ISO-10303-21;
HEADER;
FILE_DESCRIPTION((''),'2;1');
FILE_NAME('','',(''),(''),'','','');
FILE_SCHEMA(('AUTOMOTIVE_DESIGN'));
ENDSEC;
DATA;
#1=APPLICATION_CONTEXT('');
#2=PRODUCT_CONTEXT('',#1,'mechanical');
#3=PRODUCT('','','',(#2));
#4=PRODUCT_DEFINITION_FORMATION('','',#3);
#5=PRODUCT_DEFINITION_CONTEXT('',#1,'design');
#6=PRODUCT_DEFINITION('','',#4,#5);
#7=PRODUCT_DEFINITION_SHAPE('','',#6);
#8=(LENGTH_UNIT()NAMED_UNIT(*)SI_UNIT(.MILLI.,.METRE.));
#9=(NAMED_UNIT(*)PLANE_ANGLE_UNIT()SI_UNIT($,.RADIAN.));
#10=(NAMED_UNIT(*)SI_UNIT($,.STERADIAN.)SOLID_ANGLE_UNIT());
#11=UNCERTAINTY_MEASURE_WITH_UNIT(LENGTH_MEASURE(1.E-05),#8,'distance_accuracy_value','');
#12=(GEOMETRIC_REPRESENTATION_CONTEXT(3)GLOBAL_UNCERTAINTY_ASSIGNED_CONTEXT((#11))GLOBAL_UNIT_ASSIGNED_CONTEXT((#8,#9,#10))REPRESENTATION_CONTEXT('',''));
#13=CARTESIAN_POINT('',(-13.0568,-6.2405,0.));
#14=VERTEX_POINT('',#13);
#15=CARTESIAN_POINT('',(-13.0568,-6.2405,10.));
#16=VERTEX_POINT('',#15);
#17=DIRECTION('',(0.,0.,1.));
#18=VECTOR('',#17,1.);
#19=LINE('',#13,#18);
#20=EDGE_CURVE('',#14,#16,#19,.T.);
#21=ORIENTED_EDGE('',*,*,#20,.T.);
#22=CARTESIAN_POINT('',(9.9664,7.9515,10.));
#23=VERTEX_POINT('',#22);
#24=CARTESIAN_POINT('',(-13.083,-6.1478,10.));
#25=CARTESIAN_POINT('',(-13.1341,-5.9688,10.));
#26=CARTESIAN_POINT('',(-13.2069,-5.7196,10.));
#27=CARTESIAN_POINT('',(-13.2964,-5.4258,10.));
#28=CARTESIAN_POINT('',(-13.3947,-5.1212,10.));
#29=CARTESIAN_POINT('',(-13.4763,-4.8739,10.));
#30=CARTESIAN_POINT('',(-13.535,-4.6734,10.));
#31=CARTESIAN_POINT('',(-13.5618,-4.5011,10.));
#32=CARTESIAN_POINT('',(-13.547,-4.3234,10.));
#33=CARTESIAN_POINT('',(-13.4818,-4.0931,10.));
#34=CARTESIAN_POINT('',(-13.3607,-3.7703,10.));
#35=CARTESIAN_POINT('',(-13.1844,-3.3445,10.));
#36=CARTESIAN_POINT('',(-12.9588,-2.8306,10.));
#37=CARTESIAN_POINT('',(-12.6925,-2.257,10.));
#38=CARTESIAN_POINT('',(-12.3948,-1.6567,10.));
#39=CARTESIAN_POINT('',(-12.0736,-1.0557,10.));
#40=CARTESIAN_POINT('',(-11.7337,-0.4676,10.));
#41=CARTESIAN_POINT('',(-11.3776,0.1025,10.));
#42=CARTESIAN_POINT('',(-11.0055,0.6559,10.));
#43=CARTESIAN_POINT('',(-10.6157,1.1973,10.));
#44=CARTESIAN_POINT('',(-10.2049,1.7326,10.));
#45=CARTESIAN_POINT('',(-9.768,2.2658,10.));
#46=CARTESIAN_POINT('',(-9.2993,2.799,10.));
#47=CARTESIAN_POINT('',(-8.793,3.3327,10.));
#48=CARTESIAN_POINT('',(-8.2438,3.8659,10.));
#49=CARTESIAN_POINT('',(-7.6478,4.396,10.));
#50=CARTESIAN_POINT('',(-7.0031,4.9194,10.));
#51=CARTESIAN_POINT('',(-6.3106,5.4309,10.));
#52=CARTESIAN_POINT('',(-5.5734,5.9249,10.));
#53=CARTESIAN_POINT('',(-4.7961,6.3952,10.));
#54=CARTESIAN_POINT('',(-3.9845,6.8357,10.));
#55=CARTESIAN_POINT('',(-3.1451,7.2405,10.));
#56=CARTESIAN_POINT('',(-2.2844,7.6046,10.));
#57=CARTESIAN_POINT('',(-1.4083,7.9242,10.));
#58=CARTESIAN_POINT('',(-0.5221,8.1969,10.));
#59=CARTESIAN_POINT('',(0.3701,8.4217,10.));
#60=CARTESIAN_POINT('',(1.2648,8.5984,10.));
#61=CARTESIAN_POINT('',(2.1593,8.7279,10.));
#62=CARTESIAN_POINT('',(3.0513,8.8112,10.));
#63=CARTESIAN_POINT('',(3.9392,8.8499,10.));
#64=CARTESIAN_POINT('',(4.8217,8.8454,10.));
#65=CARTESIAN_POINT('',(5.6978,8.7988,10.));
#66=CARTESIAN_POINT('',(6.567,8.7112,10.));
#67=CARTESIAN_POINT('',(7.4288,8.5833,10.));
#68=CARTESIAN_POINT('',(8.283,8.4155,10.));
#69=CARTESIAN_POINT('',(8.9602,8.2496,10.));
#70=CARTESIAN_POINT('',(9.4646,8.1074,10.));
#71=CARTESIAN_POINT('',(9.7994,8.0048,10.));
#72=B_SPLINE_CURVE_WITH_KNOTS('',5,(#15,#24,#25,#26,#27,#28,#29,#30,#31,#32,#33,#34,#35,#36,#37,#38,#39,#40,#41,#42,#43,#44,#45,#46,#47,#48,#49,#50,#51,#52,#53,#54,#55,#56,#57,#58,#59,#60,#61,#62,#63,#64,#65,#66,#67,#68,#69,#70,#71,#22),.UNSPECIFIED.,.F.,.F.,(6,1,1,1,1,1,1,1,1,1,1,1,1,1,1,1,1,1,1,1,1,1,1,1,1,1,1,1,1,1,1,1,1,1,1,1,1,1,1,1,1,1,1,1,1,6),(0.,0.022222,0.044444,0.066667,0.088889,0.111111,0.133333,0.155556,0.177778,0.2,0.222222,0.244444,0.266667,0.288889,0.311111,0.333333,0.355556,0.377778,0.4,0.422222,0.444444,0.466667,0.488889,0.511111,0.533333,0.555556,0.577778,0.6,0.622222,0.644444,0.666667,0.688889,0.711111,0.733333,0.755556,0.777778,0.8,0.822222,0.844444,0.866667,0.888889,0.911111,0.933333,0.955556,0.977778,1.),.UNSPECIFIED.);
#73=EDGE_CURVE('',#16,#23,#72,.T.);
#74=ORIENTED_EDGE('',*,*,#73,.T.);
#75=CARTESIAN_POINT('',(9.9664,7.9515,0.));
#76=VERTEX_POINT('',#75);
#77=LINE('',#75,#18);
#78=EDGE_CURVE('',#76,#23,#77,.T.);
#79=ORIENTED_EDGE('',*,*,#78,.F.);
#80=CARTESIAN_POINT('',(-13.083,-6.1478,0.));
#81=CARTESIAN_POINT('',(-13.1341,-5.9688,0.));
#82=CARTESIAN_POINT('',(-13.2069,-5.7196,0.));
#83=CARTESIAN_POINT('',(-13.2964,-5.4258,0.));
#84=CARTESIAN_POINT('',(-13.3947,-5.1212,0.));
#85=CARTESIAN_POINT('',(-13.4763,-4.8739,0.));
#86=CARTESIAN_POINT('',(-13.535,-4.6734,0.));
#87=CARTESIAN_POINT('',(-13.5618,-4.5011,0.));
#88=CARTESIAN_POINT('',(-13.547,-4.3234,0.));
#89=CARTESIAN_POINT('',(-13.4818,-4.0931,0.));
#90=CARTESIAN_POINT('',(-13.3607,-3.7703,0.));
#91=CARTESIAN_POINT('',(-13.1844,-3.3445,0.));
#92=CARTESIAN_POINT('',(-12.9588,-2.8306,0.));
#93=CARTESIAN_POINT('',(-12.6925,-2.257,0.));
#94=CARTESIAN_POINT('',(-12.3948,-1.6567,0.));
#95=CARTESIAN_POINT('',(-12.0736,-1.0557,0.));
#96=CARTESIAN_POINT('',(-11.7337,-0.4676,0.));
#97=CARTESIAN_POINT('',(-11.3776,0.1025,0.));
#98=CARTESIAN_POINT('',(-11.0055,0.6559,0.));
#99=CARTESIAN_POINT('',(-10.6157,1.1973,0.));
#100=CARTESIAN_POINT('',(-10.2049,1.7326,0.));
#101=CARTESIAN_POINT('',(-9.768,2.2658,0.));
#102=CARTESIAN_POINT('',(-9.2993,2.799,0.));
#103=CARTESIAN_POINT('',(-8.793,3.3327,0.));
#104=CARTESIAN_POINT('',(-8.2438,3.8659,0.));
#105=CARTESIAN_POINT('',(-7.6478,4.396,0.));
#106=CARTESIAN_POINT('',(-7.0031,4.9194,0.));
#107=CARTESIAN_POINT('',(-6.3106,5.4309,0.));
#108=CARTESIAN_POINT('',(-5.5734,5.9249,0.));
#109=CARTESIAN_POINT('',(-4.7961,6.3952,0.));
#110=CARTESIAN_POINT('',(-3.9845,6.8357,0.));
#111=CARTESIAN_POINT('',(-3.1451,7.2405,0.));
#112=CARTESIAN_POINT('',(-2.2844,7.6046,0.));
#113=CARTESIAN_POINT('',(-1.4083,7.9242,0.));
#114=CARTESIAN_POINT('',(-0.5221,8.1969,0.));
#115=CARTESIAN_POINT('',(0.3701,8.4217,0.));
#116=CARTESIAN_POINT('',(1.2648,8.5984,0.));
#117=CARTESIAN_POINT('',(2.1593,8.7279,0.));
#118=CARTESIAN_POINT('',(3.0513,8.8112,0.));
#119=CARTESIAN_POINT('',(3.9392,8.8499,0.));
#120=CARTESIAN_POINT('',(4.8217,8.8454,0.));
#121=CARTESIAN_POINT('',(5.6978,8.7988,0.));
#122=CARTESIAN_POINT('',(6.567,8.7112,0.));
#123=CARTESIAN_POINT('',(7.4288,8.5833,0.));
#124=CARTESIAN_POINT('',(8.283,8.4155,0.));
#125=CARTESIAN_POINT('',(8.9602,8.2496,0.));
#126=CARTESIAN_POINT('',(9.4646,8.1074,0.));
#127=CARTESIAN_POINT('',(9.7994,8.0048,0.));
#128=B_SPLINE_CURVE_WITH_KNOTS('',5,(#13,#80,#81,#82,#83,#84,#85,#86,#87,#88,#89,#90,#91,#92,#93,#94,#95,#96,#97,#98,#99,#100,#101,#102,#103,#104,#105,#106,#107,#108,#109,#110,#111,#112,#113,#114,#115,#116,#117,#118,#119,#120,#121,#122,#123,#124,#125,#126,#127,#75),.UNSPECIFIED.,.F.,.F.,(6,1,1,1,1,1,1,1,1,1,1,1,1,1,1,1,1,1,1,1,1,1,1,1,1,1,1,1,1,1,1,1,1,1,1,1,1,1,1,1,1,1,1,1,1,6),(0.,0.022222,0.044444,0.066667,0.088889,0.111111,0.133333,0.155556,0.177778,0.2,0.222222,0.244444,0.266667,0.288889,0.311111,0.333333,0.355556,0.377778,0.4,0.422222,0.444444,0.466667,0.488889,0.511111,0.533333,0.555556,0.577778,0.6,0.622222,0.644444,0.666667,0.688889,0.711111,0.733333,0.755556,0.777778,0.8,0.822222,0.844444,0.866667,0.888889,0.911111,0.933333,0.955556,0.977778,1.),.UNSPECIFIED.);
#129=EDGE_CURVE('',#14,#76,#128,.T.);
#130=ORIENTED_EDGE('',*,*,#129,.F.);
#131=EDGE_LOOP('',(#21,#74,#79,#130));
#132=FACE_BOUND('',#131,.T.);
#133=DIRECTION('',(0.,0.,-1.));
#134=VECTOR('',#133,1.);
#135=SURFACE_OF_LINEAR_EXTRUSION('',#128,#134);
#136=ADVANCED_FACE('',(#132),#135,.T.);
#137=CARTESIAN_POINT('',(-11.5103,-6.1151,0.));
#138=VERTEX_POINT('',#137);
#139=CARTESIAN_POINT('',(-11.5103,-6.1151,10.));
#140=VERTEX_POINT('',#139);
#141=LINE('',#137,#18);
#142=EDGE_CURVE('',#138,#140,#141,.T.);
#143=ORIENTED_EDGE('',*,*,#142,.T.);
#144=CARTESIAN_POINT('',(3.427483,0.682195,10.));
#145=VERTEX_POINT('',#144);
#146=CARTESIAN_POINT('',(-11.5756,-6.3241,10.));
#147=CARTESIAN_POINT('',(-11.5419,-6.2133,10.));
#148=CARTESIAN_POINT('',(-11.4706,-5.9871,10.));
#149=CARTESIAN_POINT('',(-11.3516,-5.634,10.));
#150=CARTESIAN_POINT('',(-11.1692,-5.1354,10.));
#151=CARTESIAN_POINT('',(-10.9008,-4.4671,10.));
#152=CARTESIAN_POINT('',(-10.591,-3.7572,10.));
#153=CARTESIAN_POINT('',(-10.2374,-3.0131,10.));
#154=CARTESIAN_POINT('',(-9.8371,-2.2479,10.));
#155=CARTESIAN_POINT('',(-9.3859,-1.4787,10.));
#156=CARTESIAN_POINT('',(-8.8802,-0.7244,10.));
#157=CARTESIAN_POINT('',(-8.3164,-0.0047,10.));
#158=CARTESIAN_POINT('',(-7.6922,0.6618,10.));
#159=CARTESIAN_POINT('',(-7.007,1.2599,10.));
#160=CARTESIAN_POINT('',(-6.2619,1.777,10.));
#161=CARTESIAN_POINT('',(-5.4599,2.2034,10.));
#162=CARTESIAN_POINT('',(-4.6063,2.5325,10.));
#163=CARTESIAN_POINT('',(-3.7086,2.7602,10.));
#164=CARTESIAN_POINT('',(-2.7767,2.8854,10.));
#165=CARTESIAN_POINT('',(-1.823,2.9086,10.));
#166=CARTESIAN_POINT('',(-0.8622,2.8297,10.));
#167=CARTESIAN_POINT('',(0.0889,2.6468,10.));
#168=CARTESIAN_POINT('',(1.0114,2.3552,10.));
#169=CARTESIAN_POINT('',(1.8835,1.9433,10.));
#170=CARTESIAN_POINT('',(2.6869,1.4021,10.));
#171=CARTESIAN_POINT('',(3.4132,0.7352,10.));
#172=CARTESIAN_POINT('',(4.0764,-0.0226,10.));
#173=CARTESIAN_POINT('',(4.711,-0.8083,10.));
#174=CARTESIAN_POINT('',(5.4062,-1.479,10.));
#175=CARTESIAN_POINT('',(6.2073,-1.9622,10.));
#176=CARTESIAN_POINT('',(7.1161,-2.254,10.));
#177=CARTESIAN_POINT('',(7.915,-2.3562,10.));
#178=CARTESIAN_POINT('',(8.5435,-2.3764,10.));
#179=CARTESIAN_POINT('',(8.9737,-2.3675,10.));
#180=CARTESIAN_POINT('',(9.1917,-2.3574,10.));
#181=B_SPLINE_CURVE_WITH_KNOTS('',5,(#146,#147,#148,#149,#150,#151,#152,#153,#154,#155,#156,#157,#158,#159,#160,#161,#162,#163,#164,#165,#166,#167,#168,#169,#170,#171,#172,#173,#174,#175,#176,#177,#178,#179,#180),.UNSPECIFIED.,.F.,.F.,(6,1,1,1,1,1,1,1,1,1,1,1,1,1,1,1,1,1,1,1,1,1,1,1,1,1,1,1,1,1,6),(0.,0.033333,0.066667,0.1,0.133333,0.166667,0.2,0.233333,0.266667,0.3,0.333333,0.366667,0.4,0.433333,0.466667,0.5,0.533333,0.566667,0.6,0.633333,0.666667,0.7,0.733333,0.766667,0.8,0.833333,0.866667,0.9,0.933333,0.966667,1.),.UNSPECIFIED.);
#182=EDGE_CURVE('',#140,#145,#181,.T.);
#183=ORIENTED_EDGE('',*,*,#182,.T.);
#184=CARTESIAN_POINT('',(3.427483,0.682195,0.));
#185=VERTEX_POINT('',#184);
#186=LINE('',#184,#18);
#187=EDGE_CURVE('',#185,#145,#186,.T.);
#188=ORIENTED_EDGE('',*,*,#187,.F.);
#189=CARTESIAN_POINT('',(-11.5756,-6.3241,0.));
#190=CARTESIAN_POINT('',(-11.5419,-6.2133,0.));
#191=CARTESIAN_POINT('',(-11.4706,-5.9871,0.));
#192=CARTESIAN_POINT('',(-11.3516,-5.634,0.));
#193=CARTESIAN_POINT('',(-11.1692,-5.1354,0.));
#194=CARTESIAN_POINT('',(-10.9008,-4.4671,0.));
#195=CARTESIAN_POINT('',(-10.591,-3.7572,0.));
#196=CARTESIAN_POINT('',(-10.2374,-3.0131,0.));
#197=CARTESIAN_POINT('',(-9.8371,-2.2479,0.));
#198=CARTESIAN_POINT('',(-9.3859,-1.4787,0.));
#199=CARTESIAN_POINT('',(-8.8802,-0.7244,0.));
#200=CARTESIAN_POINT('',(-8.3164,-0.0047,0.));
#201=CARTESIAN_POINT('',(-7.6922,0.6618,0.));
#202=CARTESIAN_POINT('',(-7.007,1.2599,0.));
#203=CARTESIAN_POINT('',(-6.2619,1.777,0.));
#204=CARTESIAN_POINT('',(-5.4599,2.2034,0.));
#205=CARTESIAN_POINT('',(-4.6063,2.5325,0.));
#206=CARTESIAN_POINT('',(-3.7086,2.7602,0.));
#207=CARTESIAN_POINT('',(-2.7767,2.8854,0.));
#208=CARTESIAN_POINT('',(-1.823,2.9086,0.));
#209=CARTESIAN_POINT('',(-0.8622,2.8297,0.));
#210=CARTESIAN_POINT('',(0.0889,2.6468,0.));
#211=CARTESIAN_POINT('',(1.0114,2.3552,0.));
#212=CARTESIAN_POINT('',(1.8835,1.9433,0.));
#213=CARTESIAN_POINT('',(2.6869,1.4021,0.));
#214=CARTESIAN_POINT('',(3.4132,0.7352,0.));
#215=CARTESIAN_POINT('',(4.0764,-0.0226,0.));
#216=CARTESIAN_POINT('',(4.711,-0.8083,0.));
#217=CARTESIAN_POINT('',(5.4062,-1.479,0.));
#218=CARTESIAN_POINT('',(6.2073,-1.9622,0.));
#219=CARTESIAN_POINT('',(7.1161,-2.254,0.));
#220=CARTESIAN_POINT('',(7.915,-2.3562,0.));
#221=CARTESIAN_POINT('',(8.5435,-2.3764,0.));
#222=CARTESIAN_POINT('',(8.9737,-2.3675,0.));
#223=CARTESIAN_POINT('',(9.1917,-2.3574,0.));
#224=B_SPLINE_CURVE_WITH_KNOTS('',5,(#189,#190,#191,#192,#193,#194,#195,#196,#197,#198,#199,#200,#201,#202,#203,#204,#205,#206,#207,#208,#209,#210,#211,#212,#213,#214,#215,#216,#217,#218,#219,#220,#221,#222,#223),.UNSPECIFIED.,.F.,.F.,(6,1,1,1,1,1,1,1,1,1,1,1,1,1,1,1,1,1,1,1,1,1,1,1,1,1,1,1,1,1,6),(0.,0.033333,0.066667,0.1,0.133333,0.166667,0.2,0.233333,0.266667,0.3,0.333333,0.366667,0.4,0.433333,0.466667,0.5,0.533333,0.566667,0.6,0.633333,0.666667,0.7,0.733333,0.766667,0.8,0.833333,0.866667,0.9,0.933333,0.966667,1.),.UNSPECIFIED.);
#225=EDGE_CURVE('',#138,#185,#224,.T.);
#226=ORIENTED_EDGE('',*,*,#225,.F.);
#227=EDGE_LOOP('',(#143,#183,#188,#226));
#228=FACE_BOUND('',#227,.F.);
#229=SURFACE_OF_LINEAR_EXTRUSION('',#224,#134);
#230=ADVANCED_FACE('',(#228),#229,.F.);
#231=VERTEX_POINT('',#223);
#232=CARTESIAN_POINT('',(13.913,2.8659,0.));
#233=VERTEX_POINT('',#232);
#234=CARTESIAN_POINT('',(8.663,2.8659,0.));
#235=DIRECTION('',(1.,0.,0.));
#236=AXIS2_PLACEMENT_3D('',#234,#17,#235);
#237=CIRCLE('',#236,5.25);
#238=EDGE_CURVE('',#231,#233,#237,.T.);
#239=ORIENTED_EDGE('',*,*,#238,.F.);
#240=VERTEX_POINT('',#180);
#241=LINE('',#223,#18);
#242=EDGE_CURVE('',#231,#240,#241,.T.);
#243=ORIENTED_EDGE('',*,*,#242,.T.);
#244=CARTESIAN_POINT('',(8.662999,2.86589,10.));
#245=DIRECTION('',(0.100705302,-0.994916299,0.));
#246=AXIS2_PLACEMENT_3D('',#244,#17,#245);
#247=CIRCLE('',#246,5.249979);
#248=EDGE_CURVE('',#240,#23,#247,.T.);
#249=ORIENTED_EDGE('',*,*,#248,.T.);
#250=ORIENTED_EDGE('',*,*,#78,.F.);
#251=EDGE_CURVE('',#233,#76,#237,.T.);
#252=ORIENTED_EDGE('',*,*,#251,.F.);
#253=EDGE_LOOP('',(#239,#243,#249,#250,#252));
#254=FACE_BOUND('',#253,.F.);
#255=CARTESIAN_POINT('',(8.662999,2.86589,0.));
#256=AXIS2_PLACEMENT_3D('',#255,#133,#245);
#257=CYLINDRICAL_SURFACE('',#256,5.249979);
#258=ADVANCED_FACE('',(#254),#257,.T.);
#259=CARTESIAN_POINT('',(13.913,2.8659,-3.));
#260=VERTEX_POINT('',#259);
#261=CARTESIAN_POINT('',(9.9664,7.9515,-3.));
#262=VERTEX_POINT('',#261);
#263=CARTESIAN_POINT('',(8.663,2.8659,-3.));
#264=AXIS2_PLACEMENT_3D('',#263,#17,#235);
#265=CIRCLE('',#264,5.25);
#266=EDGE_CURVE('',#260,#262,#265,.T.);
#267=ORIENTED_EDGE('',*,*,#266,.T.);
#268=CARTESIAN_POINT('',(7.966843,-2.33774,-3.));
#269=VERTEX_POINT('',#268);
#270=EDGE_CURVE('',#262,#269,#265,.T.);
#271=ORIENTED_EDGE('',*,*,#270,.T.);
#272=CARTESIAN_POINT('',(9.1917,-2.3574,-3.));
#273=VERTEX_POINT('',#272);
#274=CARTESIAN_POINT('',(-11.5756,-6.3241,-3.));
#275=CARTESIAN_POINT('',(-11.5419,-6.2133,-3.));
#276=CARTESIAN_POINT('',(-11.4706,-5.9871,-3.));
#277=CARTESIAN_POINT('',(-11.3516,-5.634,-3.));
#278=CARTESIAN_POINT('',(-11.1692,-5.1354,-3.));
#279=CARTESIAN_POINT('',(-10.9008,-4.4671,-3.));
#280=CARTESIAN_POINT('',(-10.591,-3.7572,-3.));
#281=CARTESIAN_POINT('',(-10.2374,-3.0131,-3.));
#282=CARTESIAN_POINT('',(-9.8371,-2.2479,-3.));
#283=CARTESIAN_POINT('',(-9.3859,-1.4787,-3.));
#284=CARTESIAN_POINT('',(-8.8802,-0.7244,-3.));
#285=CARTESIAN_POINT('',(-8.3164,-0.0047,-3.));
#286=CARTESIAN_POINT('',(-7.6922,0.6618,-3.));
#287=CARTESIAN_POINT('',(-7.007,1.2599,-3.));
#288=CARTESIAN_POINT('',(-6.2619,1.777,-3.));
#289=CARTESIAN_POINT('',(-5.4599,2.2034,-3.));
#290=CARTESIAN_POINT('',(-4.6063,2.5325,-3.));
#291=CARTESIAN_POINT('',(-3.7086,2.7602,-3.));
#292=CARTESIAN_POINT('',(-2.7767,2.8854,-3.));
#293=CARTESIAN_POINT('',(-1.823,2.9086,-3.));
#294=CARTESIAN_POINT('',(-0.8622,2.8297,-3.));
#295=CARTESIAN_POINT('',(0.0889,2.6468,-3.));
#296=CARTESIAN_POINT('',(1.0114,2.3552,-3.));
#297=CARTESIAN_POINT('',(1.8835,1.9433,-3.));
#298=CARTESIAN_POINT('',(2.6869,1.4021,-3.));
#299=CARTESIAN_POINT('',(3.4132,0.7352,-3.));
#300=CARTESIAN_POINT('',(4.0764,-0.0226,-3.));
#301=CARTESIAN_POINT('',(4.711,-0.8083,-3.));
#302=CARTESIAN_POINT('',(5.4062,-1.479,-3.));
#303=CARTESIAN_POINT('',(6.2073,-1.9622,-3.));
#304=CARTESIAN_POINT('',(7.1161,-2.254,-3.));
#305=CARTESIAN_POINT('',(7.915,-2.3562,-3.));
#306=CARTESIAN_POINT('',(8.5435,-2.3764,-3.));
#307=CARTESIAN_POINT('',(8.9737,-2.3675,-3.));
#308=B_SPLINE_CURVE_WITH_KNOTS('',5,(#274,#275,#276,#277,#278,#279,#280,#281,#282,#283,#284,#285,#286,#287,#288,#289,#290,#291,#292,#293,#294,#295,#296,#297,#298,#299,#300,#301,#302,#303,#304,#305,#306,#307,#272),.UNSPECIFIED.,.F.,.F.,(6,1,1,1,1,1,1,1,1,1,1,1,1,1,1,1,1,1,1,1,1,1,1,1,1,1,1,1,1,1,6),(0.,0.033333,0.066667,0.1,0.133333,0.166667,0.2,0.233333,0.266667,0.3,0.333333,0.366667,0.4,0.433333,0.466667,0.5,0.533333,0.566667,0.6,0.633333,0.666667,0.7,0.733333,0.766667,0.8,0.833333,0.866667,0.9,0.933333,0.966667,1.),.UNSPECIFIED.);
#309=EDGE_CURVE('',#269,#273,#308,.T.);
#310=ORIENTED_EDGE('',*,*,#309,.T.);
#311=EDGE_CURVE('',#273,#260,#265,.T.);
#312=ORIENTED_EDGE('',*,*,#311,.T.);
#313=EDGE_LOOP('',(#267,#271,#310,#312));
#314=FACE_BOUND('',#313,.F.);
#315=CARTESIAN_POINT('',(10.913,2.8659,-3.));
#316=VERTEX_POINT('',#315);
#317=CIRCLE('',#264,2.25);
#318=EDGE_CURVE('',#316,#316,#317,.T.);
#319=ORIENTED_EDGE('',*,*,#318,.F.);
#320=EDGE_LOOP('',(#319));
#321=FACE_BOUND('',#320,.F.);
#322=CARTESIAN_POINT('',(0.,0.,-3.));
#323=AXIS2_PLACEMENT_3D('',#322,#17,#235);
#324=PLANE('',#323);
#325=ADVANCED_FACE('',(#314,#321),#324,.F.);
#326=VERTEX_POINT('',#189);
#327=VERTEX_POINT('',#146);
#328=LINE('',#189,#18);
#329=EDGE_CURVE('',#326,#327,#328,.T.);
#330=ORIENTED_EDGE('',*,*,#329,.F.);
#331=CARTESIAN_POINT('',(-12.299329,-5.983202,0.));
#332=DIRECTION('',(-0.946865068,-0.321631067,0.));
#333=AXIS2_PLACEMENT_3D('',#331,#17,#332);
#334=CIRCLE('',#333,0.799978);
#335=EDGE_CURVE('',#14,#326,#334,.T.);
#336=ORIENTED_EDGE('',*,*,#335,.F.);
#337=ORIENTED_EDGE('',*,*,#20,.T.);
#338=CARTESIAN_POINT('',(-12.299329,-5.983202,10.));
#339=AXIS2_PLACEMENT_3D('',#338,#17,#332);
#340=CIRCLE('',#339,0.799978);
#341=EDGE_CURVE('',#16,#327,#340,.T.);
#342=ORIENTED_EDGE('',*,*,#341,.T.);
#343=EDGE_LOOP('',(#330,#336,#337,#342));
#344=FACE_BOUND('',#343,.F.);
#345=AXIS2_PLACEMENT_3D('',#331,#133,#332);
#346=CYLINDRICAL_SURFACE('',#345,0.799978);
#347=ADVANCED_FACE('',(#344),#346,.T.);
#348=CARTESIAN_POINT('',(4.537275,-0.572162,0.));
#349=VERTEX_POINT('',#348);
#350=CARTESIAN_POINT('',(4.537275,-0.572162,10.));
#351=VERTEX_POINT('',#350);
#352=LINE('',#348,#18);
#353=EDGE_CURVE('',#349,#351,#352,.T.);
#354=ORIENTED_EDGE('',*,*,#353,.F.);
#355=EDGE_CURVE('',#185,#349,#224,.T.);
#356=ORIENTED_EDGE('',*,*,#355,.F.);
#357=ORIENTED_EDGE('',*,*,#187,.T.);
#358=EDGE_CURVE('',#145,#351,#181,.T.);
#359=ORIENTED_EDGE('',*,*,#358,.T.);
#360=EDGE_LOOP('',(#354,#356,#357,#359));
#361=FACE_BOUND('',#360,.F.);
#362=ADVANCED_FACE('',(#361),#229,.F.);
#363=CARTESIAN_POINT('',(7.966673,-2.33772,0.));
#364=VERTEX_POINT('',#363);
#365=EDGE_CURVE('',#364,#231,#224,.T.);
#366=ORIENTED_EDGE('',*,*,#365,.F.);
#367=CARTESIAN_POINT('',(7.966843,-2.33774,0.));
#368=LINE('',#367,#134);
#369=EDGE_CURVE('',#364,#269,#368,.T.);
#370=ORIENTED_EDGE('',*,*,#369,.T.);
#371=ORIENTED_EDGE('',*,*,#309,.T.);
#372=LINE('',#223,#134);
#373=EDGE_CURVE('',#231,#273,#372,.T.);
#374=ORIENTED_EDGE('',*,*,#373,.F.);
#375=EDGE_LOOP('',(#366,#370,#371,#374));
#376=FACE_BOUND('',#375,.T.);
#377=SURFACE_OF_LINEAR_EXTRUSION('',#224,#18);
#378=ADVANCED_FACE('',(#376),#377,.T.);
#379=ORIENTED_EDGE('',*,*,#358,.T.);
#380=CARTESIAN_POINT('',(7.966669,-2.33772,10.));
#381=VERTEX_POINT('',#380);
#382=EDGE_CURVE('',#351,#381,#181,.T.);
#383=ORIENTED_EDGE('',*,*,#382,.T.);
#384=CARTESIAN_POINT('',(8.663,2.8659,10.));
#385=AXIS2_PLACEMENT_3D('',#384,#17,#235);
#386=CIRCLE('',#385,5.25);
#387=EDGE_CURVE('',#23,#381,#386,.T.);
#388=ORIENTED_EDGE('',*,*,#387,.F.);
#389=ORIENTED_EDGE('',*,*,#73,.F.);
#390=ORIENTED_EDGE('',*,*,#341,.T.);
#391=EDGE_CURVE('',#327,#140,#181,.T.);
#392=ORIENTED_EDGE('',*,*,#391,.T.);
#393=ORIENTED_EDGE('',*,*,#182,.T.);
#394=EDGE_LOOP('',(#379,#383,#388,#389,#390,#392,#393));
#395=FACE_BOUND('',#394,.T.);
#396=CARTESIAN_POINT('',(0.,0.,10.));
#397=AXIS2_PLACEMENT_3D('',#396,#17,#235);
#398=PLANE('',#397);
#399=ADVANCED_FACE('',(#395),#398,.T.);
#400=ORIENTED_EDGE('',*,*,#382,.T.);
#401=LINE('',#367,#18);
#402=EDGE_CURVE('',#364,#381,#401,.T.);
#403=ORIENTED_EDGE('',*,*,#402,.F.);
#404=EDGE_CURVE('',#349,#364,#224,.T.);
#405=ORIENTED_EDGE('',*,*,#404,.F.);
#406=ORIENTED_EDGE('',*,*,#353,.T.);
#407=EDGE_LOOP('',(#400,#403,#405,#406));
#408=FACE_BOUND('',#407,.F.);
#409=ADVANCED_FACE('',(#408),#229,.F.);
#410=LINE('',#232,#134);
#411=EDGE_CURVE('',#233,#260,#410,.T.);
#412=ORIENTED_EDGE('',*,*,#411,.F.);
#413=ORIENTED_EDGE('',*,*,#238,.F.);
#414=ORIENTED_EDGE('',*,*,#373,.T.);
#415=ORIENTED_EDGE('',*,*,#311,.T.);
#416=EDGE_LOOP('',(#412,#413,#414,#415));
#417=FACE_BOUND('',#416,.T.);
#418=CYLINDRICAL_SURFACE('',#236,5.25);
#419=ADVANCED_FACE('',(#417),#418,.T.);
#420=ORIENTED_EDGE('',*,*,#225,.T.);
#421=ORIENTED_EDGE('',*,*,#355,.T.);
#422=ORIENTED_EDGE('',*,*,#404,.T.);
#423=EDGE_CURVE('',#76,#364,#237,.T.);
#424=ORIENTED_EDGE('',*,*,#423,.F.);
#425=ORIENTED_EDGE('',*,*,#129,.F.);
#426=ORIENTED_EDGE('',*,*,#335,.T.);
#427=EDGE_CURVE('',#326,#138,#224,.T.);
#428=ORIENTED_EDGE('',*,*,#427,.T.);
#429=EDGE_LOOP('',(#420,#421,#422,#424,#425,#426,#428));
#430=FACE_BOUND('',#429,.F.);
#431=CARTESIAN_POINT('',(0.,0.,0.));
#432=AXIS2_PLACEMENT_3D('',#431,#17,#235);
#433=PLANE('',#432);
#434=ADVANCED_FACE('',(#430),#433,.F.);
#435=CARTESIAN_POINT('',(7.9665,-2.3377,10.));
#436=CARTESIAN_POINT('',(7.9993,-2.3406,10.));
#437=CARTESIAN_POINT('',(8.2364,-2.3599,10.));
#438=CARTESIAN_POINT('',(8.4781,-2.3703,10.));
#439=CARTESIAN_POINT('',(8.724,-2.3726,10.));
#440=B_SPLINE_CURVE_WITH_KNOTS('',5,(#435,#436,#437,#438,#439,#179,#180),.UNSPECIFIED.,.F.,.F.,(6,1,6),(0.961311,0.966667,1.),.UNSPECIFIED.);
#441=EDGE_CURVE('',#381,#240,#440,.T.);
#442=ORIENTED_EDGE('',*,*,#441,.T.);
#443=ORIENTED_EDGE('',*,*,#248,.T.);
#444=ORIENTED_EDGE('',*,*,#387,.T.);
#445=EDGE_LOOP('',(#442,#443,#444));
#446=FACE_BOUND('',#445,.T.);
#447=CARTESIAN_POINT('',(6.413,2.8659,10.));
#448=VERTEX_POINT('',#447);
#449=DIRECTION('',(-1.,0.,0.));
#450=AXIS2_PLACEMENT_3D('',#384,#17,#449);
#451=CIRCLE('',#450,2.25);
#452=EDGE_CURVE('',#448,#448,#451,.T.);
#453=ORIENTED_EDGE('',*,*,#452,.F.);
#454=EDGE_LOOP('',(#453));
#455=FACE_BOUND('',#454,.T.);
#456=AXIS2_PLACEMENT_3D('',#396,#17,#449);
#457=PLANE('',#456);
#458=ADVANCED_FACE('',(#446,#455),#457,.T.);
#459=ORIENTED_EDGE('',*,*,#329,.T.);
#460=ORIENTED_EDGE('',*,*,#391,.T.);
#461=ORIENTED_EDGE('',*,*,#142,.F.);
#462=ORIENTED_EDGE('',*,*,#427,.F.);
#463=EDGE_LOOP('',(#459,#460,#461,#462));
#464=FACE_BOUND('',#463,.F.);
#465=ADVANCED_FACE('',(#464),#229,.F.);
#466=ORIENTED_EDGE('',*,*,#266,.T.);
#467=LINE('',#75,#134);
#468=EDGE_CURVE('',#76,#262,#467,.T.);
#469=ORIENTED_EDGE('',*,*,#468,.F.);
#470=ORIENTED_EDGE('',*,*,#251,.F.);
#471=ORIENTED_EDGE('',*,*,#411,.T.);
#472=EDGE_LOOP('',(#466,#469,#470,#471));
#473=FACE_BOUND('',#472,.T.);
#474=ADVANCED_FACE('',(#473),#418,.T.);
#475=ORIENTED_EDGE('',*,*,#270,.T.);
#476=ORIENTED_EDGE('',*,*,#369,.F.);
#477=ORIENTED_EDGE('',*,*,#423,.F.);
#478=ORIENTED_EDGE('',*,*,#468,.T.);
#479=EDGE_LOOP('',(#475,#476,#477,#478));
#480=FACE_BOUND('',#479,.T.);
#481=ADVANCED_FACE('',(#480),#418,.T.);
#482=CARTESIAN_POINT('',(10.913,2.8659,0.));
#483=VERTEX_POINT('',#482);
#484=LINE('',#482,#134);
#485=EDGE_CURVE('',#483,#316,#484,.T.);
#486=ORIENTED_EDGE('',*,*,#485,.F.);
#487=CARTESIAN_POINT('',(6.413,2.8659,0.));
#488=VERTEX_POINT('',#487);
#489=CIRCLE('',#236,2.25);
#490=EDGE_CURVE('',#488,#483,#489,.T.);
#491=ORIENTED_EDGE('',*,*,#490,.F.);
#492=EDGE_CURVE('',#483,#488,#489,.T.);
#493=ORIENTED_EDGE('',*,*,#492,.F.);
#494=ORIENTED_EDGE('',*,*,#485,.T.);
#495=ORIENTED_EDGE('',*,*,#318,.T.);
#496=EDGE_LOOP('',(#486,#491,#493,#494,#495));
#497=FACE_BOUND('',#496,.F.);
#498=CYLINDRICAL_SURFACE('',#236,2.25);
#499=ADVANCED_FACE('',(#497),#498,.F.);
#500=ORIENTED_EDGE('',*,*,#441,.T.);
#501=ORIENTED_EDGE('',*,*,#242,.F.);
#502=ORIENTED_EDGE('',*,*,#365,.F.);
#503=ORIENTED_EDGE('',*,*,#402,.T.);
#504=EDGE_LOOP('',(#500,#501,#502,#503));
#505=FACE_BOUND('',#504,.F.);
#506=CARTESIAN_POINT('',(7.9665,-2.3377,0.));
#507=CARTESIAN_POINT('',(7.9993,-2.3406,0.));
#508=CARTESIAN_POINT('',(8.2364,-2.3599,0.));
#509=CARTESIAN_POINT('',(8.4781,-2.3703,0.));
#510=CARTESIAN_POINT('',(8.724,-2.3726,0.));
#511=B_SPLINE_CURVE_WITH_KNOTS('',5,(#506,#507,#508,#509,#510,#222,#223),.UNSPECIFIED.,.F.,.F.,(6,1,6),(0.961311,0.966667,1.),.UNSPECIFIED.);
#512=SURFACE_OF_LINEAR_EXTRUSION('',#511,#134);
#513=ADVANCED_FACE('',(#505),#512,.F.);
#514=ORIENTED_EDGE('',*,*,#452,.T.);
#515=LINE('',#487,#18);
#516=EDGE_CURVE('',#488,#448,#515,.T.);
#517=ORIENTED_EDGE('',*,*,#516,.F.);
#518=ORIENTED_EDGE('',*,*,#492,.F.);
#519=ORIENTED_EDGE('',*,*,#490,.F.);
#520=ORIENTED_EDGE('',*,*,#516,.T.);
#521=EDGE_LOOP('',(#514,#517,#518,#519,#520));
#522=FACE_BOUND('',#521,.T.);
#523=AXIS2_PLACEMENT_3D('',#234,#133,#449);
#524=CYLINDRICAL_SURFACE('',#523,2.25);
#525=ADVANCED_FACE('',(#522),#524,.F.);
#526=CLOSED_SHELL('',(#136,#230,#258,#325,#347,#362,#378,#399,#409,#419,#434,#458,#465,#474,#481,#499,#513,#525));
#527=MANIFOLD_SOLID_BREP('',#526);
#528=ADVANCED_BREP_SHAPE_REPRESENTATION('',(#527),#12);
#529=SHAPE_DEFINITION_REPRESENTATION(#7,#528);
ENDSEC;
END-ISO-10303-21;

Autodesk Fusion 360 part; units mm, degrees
sketch "base" plane through (0, 0, 0) normal (0, 0, 1) x (1, 0, 0)
  circle A0 centre (8.663, 2.8659) radius 2.25
  circle A1 centre (8.663, 2.8659) radius 5.25
  spline S0 degree 5 poles (-11.5756, -6.3241) (-11.5419, -6.2133) (-11.4706, -5.9871) (-11.3516, -5.634) (-11.1692, -5.1354) (-10.9008, -4.4671) (-10.591, -3.7572) (-10.2374, -3.0131) (-9.8371, -2.2479) (-9.3859, -1.4787) (-8.8802, -0.7244) (-8.3164, -0.0047) (-7.6922, 0.6618) (-7.007, 1.2599) (-6.2619, 1.777) (-5.4599, 2.2034) (-4.6063, 2.5325) (-3.7086, 2.7602) (-2.7767, 2.8854) (-1.823, 2.9086) (-0.8622, 2.8297) (0.0889, 2.6468) (1.0114, 2.3552) (1.8835, 1.9433) (2.6869, 1.4021) (3.4132, 0.7352) (4.0764, -0.0226) (4.711, -0.8083) (5.4062, -1.479) (6.2073, -1.9622) (7.1161, -2.254) (7.915, -2.3562) (8.5435, -2.3764) (8.9737, -2.3675) (9.1917, -2.3574) knots 0 0 0 0 0 0 0.033333 0.066667 0.1 0.133333 0.166667 0.2 0.233333 0.266667 0.3 0.333333 0.366667 0.4 0.433333 0.466667 0.5 0.533333 0.566667 0.6 0.633333 0.666667 0.7 0.733333 0.766667 0.8 0.833333 0.866667 0.9 0.933333 0.966667 1 1 1 1 1 1
  line L0 (2.9298, 1.2447) -> (6.1452, -2.3895)
  line L1 (6.5259, -2.4803) -> (11.8575, -2.2346)
  spline S1 degree 5 poles (-13.0568, -6.2405) (-13.083, -6.1478) (-13.1341, -5.9688) (-13.2069, -5.7196) (-13.2964, -5.4258) (-13.3947, -5.1212) (-13.4763, -4.8739) (-13.535, -4.6734) (-13.5618, -4.5011) (-13.547, -4.3234) (-13.4818, -4.0931) (-13.3607, -3.7703) (-13.1844, -3.3445) (-12.9588, -2.8306) (-12.6925, -2.257) (-12.3948, -1.6567) (-12.0736, -1.0557) (-11.7337, -0.4676) (-11.3776, 0.1025) (-11.0055, 0.6559) (-10.6157, 1.1973) (-10.2049, 1.7326) (-9.768, 2.2658) (-9.2993, 2.799) (-8.793, 3.3327) (-8.2438, 3.8659) (-7.6478, 4.396) (-7.0031, 4.9194) (-6.3106, 5.4309) (-5.5734, 5.9249) (-4.7961, 6.3952) (-3.9845, 6.8357) (-3.1451, 7.2405) (-2.2844, 7.6046) (-1.4083, 7.9242) (-0.5221, 8.1969) (0.3701, 8.4217) (1.2648, 8.5984) (2.1593, 8.7279) (3.0513, 8.8112) (3.9392, 8.8499) (4.8217, 8.8454) (5.6978, 8.7988) (6.567, 8.7112) (7.4288, 8.5833) (8.283, 8.4155) (8.9602, 8.2496) (9.4646, 8.1074) (9.7994, 8.0048) (9.9664, 7.9515) knots 0 0 0 0 0 0 0.022222 0.044444 0.066667 0.088889 0.111111 0.133333 0.155556 0.177778 0.2 0.222222 0.244444 0.266667 0.288889 0.311111 0.333333 0.355556 0.377778 0.4 0.422222 0.444444 0.466667 0.488889 0.511111 0.533333 0.555556 0.577778 0.6 0.622222 0.644444 0.666667 0.688889 0.711111 0.733333 0.755556 0.777778 0.8 0.822222 0.844444 0.866667 0.888889 0.911111 0.933333 0.955556 0.977778 1 1 1 1 1 1
  arc A2 (-13.0568, -6.2405) -> (-11.5103, -6.1151) centre (-12.2993, -5.9832) ccw
  point P0 (-10.553, -3.6897)
  point P1 (-8.28, 0.0068)
  point P2 (-4.5146, 2.5324)
  point P3 (0.3976, 2.5324)
  point P4 (4.5375, -0.5724)
  point P5 (-13.4234, -5.034)
  point P6 (-13.5492, -4.5396)
  point P7 (-13.4459, -4.0063)
  point P8 (-12.4929, -1.8607)
  point P9 (-10.5689, 1.2515)
  point P10 (-7.6643, 4.3699)
  point P11 (-2.2966, 7.5872)
  point P12 (4.0429, 8.8408)
  dimension "d1" = 4.5
  dimension "d2" = 10.5
  dimension "d3" = 1.6
extrude "Extrude1" add sketch "base" against normal blind 3 contours A1 S0
extrude "Extrude2" add sketch "base" along normal blind 10 contours A1 S0 S1 A2
sketch "ring" plane through (0, 0, 0) normal (0, 0, 1) x (-1, 0, 0)
  circle A0 centre (-8.663, -2.8659) radius 2.25
  arc A1 (-9.1917, 2.3574) -> (-9.9664, -7.9515) centre (-8.663, -2.8659) ccw
  arc A2 (-9.9664, -7.9515) -> (-7.9665, 2.3377) centre (-8.663, -2.8659) ccw
  spline S0 degree 5 poles (-7.9665, 2.3377) (-7.9993, 2.3406) (-8.2364, 2.3599) (-8.4781, 2.3703) (-8.724, 2.3726) (-8.9737, 2.3675) (-9.1917, 2.3574) knots 0.961311 0.961311 0.961311 0.961311 0.961311 0.961311 0.966667 1 1 1 1 1 1
extrude "Extrude3" add sketch "ring" along normal blind 10
